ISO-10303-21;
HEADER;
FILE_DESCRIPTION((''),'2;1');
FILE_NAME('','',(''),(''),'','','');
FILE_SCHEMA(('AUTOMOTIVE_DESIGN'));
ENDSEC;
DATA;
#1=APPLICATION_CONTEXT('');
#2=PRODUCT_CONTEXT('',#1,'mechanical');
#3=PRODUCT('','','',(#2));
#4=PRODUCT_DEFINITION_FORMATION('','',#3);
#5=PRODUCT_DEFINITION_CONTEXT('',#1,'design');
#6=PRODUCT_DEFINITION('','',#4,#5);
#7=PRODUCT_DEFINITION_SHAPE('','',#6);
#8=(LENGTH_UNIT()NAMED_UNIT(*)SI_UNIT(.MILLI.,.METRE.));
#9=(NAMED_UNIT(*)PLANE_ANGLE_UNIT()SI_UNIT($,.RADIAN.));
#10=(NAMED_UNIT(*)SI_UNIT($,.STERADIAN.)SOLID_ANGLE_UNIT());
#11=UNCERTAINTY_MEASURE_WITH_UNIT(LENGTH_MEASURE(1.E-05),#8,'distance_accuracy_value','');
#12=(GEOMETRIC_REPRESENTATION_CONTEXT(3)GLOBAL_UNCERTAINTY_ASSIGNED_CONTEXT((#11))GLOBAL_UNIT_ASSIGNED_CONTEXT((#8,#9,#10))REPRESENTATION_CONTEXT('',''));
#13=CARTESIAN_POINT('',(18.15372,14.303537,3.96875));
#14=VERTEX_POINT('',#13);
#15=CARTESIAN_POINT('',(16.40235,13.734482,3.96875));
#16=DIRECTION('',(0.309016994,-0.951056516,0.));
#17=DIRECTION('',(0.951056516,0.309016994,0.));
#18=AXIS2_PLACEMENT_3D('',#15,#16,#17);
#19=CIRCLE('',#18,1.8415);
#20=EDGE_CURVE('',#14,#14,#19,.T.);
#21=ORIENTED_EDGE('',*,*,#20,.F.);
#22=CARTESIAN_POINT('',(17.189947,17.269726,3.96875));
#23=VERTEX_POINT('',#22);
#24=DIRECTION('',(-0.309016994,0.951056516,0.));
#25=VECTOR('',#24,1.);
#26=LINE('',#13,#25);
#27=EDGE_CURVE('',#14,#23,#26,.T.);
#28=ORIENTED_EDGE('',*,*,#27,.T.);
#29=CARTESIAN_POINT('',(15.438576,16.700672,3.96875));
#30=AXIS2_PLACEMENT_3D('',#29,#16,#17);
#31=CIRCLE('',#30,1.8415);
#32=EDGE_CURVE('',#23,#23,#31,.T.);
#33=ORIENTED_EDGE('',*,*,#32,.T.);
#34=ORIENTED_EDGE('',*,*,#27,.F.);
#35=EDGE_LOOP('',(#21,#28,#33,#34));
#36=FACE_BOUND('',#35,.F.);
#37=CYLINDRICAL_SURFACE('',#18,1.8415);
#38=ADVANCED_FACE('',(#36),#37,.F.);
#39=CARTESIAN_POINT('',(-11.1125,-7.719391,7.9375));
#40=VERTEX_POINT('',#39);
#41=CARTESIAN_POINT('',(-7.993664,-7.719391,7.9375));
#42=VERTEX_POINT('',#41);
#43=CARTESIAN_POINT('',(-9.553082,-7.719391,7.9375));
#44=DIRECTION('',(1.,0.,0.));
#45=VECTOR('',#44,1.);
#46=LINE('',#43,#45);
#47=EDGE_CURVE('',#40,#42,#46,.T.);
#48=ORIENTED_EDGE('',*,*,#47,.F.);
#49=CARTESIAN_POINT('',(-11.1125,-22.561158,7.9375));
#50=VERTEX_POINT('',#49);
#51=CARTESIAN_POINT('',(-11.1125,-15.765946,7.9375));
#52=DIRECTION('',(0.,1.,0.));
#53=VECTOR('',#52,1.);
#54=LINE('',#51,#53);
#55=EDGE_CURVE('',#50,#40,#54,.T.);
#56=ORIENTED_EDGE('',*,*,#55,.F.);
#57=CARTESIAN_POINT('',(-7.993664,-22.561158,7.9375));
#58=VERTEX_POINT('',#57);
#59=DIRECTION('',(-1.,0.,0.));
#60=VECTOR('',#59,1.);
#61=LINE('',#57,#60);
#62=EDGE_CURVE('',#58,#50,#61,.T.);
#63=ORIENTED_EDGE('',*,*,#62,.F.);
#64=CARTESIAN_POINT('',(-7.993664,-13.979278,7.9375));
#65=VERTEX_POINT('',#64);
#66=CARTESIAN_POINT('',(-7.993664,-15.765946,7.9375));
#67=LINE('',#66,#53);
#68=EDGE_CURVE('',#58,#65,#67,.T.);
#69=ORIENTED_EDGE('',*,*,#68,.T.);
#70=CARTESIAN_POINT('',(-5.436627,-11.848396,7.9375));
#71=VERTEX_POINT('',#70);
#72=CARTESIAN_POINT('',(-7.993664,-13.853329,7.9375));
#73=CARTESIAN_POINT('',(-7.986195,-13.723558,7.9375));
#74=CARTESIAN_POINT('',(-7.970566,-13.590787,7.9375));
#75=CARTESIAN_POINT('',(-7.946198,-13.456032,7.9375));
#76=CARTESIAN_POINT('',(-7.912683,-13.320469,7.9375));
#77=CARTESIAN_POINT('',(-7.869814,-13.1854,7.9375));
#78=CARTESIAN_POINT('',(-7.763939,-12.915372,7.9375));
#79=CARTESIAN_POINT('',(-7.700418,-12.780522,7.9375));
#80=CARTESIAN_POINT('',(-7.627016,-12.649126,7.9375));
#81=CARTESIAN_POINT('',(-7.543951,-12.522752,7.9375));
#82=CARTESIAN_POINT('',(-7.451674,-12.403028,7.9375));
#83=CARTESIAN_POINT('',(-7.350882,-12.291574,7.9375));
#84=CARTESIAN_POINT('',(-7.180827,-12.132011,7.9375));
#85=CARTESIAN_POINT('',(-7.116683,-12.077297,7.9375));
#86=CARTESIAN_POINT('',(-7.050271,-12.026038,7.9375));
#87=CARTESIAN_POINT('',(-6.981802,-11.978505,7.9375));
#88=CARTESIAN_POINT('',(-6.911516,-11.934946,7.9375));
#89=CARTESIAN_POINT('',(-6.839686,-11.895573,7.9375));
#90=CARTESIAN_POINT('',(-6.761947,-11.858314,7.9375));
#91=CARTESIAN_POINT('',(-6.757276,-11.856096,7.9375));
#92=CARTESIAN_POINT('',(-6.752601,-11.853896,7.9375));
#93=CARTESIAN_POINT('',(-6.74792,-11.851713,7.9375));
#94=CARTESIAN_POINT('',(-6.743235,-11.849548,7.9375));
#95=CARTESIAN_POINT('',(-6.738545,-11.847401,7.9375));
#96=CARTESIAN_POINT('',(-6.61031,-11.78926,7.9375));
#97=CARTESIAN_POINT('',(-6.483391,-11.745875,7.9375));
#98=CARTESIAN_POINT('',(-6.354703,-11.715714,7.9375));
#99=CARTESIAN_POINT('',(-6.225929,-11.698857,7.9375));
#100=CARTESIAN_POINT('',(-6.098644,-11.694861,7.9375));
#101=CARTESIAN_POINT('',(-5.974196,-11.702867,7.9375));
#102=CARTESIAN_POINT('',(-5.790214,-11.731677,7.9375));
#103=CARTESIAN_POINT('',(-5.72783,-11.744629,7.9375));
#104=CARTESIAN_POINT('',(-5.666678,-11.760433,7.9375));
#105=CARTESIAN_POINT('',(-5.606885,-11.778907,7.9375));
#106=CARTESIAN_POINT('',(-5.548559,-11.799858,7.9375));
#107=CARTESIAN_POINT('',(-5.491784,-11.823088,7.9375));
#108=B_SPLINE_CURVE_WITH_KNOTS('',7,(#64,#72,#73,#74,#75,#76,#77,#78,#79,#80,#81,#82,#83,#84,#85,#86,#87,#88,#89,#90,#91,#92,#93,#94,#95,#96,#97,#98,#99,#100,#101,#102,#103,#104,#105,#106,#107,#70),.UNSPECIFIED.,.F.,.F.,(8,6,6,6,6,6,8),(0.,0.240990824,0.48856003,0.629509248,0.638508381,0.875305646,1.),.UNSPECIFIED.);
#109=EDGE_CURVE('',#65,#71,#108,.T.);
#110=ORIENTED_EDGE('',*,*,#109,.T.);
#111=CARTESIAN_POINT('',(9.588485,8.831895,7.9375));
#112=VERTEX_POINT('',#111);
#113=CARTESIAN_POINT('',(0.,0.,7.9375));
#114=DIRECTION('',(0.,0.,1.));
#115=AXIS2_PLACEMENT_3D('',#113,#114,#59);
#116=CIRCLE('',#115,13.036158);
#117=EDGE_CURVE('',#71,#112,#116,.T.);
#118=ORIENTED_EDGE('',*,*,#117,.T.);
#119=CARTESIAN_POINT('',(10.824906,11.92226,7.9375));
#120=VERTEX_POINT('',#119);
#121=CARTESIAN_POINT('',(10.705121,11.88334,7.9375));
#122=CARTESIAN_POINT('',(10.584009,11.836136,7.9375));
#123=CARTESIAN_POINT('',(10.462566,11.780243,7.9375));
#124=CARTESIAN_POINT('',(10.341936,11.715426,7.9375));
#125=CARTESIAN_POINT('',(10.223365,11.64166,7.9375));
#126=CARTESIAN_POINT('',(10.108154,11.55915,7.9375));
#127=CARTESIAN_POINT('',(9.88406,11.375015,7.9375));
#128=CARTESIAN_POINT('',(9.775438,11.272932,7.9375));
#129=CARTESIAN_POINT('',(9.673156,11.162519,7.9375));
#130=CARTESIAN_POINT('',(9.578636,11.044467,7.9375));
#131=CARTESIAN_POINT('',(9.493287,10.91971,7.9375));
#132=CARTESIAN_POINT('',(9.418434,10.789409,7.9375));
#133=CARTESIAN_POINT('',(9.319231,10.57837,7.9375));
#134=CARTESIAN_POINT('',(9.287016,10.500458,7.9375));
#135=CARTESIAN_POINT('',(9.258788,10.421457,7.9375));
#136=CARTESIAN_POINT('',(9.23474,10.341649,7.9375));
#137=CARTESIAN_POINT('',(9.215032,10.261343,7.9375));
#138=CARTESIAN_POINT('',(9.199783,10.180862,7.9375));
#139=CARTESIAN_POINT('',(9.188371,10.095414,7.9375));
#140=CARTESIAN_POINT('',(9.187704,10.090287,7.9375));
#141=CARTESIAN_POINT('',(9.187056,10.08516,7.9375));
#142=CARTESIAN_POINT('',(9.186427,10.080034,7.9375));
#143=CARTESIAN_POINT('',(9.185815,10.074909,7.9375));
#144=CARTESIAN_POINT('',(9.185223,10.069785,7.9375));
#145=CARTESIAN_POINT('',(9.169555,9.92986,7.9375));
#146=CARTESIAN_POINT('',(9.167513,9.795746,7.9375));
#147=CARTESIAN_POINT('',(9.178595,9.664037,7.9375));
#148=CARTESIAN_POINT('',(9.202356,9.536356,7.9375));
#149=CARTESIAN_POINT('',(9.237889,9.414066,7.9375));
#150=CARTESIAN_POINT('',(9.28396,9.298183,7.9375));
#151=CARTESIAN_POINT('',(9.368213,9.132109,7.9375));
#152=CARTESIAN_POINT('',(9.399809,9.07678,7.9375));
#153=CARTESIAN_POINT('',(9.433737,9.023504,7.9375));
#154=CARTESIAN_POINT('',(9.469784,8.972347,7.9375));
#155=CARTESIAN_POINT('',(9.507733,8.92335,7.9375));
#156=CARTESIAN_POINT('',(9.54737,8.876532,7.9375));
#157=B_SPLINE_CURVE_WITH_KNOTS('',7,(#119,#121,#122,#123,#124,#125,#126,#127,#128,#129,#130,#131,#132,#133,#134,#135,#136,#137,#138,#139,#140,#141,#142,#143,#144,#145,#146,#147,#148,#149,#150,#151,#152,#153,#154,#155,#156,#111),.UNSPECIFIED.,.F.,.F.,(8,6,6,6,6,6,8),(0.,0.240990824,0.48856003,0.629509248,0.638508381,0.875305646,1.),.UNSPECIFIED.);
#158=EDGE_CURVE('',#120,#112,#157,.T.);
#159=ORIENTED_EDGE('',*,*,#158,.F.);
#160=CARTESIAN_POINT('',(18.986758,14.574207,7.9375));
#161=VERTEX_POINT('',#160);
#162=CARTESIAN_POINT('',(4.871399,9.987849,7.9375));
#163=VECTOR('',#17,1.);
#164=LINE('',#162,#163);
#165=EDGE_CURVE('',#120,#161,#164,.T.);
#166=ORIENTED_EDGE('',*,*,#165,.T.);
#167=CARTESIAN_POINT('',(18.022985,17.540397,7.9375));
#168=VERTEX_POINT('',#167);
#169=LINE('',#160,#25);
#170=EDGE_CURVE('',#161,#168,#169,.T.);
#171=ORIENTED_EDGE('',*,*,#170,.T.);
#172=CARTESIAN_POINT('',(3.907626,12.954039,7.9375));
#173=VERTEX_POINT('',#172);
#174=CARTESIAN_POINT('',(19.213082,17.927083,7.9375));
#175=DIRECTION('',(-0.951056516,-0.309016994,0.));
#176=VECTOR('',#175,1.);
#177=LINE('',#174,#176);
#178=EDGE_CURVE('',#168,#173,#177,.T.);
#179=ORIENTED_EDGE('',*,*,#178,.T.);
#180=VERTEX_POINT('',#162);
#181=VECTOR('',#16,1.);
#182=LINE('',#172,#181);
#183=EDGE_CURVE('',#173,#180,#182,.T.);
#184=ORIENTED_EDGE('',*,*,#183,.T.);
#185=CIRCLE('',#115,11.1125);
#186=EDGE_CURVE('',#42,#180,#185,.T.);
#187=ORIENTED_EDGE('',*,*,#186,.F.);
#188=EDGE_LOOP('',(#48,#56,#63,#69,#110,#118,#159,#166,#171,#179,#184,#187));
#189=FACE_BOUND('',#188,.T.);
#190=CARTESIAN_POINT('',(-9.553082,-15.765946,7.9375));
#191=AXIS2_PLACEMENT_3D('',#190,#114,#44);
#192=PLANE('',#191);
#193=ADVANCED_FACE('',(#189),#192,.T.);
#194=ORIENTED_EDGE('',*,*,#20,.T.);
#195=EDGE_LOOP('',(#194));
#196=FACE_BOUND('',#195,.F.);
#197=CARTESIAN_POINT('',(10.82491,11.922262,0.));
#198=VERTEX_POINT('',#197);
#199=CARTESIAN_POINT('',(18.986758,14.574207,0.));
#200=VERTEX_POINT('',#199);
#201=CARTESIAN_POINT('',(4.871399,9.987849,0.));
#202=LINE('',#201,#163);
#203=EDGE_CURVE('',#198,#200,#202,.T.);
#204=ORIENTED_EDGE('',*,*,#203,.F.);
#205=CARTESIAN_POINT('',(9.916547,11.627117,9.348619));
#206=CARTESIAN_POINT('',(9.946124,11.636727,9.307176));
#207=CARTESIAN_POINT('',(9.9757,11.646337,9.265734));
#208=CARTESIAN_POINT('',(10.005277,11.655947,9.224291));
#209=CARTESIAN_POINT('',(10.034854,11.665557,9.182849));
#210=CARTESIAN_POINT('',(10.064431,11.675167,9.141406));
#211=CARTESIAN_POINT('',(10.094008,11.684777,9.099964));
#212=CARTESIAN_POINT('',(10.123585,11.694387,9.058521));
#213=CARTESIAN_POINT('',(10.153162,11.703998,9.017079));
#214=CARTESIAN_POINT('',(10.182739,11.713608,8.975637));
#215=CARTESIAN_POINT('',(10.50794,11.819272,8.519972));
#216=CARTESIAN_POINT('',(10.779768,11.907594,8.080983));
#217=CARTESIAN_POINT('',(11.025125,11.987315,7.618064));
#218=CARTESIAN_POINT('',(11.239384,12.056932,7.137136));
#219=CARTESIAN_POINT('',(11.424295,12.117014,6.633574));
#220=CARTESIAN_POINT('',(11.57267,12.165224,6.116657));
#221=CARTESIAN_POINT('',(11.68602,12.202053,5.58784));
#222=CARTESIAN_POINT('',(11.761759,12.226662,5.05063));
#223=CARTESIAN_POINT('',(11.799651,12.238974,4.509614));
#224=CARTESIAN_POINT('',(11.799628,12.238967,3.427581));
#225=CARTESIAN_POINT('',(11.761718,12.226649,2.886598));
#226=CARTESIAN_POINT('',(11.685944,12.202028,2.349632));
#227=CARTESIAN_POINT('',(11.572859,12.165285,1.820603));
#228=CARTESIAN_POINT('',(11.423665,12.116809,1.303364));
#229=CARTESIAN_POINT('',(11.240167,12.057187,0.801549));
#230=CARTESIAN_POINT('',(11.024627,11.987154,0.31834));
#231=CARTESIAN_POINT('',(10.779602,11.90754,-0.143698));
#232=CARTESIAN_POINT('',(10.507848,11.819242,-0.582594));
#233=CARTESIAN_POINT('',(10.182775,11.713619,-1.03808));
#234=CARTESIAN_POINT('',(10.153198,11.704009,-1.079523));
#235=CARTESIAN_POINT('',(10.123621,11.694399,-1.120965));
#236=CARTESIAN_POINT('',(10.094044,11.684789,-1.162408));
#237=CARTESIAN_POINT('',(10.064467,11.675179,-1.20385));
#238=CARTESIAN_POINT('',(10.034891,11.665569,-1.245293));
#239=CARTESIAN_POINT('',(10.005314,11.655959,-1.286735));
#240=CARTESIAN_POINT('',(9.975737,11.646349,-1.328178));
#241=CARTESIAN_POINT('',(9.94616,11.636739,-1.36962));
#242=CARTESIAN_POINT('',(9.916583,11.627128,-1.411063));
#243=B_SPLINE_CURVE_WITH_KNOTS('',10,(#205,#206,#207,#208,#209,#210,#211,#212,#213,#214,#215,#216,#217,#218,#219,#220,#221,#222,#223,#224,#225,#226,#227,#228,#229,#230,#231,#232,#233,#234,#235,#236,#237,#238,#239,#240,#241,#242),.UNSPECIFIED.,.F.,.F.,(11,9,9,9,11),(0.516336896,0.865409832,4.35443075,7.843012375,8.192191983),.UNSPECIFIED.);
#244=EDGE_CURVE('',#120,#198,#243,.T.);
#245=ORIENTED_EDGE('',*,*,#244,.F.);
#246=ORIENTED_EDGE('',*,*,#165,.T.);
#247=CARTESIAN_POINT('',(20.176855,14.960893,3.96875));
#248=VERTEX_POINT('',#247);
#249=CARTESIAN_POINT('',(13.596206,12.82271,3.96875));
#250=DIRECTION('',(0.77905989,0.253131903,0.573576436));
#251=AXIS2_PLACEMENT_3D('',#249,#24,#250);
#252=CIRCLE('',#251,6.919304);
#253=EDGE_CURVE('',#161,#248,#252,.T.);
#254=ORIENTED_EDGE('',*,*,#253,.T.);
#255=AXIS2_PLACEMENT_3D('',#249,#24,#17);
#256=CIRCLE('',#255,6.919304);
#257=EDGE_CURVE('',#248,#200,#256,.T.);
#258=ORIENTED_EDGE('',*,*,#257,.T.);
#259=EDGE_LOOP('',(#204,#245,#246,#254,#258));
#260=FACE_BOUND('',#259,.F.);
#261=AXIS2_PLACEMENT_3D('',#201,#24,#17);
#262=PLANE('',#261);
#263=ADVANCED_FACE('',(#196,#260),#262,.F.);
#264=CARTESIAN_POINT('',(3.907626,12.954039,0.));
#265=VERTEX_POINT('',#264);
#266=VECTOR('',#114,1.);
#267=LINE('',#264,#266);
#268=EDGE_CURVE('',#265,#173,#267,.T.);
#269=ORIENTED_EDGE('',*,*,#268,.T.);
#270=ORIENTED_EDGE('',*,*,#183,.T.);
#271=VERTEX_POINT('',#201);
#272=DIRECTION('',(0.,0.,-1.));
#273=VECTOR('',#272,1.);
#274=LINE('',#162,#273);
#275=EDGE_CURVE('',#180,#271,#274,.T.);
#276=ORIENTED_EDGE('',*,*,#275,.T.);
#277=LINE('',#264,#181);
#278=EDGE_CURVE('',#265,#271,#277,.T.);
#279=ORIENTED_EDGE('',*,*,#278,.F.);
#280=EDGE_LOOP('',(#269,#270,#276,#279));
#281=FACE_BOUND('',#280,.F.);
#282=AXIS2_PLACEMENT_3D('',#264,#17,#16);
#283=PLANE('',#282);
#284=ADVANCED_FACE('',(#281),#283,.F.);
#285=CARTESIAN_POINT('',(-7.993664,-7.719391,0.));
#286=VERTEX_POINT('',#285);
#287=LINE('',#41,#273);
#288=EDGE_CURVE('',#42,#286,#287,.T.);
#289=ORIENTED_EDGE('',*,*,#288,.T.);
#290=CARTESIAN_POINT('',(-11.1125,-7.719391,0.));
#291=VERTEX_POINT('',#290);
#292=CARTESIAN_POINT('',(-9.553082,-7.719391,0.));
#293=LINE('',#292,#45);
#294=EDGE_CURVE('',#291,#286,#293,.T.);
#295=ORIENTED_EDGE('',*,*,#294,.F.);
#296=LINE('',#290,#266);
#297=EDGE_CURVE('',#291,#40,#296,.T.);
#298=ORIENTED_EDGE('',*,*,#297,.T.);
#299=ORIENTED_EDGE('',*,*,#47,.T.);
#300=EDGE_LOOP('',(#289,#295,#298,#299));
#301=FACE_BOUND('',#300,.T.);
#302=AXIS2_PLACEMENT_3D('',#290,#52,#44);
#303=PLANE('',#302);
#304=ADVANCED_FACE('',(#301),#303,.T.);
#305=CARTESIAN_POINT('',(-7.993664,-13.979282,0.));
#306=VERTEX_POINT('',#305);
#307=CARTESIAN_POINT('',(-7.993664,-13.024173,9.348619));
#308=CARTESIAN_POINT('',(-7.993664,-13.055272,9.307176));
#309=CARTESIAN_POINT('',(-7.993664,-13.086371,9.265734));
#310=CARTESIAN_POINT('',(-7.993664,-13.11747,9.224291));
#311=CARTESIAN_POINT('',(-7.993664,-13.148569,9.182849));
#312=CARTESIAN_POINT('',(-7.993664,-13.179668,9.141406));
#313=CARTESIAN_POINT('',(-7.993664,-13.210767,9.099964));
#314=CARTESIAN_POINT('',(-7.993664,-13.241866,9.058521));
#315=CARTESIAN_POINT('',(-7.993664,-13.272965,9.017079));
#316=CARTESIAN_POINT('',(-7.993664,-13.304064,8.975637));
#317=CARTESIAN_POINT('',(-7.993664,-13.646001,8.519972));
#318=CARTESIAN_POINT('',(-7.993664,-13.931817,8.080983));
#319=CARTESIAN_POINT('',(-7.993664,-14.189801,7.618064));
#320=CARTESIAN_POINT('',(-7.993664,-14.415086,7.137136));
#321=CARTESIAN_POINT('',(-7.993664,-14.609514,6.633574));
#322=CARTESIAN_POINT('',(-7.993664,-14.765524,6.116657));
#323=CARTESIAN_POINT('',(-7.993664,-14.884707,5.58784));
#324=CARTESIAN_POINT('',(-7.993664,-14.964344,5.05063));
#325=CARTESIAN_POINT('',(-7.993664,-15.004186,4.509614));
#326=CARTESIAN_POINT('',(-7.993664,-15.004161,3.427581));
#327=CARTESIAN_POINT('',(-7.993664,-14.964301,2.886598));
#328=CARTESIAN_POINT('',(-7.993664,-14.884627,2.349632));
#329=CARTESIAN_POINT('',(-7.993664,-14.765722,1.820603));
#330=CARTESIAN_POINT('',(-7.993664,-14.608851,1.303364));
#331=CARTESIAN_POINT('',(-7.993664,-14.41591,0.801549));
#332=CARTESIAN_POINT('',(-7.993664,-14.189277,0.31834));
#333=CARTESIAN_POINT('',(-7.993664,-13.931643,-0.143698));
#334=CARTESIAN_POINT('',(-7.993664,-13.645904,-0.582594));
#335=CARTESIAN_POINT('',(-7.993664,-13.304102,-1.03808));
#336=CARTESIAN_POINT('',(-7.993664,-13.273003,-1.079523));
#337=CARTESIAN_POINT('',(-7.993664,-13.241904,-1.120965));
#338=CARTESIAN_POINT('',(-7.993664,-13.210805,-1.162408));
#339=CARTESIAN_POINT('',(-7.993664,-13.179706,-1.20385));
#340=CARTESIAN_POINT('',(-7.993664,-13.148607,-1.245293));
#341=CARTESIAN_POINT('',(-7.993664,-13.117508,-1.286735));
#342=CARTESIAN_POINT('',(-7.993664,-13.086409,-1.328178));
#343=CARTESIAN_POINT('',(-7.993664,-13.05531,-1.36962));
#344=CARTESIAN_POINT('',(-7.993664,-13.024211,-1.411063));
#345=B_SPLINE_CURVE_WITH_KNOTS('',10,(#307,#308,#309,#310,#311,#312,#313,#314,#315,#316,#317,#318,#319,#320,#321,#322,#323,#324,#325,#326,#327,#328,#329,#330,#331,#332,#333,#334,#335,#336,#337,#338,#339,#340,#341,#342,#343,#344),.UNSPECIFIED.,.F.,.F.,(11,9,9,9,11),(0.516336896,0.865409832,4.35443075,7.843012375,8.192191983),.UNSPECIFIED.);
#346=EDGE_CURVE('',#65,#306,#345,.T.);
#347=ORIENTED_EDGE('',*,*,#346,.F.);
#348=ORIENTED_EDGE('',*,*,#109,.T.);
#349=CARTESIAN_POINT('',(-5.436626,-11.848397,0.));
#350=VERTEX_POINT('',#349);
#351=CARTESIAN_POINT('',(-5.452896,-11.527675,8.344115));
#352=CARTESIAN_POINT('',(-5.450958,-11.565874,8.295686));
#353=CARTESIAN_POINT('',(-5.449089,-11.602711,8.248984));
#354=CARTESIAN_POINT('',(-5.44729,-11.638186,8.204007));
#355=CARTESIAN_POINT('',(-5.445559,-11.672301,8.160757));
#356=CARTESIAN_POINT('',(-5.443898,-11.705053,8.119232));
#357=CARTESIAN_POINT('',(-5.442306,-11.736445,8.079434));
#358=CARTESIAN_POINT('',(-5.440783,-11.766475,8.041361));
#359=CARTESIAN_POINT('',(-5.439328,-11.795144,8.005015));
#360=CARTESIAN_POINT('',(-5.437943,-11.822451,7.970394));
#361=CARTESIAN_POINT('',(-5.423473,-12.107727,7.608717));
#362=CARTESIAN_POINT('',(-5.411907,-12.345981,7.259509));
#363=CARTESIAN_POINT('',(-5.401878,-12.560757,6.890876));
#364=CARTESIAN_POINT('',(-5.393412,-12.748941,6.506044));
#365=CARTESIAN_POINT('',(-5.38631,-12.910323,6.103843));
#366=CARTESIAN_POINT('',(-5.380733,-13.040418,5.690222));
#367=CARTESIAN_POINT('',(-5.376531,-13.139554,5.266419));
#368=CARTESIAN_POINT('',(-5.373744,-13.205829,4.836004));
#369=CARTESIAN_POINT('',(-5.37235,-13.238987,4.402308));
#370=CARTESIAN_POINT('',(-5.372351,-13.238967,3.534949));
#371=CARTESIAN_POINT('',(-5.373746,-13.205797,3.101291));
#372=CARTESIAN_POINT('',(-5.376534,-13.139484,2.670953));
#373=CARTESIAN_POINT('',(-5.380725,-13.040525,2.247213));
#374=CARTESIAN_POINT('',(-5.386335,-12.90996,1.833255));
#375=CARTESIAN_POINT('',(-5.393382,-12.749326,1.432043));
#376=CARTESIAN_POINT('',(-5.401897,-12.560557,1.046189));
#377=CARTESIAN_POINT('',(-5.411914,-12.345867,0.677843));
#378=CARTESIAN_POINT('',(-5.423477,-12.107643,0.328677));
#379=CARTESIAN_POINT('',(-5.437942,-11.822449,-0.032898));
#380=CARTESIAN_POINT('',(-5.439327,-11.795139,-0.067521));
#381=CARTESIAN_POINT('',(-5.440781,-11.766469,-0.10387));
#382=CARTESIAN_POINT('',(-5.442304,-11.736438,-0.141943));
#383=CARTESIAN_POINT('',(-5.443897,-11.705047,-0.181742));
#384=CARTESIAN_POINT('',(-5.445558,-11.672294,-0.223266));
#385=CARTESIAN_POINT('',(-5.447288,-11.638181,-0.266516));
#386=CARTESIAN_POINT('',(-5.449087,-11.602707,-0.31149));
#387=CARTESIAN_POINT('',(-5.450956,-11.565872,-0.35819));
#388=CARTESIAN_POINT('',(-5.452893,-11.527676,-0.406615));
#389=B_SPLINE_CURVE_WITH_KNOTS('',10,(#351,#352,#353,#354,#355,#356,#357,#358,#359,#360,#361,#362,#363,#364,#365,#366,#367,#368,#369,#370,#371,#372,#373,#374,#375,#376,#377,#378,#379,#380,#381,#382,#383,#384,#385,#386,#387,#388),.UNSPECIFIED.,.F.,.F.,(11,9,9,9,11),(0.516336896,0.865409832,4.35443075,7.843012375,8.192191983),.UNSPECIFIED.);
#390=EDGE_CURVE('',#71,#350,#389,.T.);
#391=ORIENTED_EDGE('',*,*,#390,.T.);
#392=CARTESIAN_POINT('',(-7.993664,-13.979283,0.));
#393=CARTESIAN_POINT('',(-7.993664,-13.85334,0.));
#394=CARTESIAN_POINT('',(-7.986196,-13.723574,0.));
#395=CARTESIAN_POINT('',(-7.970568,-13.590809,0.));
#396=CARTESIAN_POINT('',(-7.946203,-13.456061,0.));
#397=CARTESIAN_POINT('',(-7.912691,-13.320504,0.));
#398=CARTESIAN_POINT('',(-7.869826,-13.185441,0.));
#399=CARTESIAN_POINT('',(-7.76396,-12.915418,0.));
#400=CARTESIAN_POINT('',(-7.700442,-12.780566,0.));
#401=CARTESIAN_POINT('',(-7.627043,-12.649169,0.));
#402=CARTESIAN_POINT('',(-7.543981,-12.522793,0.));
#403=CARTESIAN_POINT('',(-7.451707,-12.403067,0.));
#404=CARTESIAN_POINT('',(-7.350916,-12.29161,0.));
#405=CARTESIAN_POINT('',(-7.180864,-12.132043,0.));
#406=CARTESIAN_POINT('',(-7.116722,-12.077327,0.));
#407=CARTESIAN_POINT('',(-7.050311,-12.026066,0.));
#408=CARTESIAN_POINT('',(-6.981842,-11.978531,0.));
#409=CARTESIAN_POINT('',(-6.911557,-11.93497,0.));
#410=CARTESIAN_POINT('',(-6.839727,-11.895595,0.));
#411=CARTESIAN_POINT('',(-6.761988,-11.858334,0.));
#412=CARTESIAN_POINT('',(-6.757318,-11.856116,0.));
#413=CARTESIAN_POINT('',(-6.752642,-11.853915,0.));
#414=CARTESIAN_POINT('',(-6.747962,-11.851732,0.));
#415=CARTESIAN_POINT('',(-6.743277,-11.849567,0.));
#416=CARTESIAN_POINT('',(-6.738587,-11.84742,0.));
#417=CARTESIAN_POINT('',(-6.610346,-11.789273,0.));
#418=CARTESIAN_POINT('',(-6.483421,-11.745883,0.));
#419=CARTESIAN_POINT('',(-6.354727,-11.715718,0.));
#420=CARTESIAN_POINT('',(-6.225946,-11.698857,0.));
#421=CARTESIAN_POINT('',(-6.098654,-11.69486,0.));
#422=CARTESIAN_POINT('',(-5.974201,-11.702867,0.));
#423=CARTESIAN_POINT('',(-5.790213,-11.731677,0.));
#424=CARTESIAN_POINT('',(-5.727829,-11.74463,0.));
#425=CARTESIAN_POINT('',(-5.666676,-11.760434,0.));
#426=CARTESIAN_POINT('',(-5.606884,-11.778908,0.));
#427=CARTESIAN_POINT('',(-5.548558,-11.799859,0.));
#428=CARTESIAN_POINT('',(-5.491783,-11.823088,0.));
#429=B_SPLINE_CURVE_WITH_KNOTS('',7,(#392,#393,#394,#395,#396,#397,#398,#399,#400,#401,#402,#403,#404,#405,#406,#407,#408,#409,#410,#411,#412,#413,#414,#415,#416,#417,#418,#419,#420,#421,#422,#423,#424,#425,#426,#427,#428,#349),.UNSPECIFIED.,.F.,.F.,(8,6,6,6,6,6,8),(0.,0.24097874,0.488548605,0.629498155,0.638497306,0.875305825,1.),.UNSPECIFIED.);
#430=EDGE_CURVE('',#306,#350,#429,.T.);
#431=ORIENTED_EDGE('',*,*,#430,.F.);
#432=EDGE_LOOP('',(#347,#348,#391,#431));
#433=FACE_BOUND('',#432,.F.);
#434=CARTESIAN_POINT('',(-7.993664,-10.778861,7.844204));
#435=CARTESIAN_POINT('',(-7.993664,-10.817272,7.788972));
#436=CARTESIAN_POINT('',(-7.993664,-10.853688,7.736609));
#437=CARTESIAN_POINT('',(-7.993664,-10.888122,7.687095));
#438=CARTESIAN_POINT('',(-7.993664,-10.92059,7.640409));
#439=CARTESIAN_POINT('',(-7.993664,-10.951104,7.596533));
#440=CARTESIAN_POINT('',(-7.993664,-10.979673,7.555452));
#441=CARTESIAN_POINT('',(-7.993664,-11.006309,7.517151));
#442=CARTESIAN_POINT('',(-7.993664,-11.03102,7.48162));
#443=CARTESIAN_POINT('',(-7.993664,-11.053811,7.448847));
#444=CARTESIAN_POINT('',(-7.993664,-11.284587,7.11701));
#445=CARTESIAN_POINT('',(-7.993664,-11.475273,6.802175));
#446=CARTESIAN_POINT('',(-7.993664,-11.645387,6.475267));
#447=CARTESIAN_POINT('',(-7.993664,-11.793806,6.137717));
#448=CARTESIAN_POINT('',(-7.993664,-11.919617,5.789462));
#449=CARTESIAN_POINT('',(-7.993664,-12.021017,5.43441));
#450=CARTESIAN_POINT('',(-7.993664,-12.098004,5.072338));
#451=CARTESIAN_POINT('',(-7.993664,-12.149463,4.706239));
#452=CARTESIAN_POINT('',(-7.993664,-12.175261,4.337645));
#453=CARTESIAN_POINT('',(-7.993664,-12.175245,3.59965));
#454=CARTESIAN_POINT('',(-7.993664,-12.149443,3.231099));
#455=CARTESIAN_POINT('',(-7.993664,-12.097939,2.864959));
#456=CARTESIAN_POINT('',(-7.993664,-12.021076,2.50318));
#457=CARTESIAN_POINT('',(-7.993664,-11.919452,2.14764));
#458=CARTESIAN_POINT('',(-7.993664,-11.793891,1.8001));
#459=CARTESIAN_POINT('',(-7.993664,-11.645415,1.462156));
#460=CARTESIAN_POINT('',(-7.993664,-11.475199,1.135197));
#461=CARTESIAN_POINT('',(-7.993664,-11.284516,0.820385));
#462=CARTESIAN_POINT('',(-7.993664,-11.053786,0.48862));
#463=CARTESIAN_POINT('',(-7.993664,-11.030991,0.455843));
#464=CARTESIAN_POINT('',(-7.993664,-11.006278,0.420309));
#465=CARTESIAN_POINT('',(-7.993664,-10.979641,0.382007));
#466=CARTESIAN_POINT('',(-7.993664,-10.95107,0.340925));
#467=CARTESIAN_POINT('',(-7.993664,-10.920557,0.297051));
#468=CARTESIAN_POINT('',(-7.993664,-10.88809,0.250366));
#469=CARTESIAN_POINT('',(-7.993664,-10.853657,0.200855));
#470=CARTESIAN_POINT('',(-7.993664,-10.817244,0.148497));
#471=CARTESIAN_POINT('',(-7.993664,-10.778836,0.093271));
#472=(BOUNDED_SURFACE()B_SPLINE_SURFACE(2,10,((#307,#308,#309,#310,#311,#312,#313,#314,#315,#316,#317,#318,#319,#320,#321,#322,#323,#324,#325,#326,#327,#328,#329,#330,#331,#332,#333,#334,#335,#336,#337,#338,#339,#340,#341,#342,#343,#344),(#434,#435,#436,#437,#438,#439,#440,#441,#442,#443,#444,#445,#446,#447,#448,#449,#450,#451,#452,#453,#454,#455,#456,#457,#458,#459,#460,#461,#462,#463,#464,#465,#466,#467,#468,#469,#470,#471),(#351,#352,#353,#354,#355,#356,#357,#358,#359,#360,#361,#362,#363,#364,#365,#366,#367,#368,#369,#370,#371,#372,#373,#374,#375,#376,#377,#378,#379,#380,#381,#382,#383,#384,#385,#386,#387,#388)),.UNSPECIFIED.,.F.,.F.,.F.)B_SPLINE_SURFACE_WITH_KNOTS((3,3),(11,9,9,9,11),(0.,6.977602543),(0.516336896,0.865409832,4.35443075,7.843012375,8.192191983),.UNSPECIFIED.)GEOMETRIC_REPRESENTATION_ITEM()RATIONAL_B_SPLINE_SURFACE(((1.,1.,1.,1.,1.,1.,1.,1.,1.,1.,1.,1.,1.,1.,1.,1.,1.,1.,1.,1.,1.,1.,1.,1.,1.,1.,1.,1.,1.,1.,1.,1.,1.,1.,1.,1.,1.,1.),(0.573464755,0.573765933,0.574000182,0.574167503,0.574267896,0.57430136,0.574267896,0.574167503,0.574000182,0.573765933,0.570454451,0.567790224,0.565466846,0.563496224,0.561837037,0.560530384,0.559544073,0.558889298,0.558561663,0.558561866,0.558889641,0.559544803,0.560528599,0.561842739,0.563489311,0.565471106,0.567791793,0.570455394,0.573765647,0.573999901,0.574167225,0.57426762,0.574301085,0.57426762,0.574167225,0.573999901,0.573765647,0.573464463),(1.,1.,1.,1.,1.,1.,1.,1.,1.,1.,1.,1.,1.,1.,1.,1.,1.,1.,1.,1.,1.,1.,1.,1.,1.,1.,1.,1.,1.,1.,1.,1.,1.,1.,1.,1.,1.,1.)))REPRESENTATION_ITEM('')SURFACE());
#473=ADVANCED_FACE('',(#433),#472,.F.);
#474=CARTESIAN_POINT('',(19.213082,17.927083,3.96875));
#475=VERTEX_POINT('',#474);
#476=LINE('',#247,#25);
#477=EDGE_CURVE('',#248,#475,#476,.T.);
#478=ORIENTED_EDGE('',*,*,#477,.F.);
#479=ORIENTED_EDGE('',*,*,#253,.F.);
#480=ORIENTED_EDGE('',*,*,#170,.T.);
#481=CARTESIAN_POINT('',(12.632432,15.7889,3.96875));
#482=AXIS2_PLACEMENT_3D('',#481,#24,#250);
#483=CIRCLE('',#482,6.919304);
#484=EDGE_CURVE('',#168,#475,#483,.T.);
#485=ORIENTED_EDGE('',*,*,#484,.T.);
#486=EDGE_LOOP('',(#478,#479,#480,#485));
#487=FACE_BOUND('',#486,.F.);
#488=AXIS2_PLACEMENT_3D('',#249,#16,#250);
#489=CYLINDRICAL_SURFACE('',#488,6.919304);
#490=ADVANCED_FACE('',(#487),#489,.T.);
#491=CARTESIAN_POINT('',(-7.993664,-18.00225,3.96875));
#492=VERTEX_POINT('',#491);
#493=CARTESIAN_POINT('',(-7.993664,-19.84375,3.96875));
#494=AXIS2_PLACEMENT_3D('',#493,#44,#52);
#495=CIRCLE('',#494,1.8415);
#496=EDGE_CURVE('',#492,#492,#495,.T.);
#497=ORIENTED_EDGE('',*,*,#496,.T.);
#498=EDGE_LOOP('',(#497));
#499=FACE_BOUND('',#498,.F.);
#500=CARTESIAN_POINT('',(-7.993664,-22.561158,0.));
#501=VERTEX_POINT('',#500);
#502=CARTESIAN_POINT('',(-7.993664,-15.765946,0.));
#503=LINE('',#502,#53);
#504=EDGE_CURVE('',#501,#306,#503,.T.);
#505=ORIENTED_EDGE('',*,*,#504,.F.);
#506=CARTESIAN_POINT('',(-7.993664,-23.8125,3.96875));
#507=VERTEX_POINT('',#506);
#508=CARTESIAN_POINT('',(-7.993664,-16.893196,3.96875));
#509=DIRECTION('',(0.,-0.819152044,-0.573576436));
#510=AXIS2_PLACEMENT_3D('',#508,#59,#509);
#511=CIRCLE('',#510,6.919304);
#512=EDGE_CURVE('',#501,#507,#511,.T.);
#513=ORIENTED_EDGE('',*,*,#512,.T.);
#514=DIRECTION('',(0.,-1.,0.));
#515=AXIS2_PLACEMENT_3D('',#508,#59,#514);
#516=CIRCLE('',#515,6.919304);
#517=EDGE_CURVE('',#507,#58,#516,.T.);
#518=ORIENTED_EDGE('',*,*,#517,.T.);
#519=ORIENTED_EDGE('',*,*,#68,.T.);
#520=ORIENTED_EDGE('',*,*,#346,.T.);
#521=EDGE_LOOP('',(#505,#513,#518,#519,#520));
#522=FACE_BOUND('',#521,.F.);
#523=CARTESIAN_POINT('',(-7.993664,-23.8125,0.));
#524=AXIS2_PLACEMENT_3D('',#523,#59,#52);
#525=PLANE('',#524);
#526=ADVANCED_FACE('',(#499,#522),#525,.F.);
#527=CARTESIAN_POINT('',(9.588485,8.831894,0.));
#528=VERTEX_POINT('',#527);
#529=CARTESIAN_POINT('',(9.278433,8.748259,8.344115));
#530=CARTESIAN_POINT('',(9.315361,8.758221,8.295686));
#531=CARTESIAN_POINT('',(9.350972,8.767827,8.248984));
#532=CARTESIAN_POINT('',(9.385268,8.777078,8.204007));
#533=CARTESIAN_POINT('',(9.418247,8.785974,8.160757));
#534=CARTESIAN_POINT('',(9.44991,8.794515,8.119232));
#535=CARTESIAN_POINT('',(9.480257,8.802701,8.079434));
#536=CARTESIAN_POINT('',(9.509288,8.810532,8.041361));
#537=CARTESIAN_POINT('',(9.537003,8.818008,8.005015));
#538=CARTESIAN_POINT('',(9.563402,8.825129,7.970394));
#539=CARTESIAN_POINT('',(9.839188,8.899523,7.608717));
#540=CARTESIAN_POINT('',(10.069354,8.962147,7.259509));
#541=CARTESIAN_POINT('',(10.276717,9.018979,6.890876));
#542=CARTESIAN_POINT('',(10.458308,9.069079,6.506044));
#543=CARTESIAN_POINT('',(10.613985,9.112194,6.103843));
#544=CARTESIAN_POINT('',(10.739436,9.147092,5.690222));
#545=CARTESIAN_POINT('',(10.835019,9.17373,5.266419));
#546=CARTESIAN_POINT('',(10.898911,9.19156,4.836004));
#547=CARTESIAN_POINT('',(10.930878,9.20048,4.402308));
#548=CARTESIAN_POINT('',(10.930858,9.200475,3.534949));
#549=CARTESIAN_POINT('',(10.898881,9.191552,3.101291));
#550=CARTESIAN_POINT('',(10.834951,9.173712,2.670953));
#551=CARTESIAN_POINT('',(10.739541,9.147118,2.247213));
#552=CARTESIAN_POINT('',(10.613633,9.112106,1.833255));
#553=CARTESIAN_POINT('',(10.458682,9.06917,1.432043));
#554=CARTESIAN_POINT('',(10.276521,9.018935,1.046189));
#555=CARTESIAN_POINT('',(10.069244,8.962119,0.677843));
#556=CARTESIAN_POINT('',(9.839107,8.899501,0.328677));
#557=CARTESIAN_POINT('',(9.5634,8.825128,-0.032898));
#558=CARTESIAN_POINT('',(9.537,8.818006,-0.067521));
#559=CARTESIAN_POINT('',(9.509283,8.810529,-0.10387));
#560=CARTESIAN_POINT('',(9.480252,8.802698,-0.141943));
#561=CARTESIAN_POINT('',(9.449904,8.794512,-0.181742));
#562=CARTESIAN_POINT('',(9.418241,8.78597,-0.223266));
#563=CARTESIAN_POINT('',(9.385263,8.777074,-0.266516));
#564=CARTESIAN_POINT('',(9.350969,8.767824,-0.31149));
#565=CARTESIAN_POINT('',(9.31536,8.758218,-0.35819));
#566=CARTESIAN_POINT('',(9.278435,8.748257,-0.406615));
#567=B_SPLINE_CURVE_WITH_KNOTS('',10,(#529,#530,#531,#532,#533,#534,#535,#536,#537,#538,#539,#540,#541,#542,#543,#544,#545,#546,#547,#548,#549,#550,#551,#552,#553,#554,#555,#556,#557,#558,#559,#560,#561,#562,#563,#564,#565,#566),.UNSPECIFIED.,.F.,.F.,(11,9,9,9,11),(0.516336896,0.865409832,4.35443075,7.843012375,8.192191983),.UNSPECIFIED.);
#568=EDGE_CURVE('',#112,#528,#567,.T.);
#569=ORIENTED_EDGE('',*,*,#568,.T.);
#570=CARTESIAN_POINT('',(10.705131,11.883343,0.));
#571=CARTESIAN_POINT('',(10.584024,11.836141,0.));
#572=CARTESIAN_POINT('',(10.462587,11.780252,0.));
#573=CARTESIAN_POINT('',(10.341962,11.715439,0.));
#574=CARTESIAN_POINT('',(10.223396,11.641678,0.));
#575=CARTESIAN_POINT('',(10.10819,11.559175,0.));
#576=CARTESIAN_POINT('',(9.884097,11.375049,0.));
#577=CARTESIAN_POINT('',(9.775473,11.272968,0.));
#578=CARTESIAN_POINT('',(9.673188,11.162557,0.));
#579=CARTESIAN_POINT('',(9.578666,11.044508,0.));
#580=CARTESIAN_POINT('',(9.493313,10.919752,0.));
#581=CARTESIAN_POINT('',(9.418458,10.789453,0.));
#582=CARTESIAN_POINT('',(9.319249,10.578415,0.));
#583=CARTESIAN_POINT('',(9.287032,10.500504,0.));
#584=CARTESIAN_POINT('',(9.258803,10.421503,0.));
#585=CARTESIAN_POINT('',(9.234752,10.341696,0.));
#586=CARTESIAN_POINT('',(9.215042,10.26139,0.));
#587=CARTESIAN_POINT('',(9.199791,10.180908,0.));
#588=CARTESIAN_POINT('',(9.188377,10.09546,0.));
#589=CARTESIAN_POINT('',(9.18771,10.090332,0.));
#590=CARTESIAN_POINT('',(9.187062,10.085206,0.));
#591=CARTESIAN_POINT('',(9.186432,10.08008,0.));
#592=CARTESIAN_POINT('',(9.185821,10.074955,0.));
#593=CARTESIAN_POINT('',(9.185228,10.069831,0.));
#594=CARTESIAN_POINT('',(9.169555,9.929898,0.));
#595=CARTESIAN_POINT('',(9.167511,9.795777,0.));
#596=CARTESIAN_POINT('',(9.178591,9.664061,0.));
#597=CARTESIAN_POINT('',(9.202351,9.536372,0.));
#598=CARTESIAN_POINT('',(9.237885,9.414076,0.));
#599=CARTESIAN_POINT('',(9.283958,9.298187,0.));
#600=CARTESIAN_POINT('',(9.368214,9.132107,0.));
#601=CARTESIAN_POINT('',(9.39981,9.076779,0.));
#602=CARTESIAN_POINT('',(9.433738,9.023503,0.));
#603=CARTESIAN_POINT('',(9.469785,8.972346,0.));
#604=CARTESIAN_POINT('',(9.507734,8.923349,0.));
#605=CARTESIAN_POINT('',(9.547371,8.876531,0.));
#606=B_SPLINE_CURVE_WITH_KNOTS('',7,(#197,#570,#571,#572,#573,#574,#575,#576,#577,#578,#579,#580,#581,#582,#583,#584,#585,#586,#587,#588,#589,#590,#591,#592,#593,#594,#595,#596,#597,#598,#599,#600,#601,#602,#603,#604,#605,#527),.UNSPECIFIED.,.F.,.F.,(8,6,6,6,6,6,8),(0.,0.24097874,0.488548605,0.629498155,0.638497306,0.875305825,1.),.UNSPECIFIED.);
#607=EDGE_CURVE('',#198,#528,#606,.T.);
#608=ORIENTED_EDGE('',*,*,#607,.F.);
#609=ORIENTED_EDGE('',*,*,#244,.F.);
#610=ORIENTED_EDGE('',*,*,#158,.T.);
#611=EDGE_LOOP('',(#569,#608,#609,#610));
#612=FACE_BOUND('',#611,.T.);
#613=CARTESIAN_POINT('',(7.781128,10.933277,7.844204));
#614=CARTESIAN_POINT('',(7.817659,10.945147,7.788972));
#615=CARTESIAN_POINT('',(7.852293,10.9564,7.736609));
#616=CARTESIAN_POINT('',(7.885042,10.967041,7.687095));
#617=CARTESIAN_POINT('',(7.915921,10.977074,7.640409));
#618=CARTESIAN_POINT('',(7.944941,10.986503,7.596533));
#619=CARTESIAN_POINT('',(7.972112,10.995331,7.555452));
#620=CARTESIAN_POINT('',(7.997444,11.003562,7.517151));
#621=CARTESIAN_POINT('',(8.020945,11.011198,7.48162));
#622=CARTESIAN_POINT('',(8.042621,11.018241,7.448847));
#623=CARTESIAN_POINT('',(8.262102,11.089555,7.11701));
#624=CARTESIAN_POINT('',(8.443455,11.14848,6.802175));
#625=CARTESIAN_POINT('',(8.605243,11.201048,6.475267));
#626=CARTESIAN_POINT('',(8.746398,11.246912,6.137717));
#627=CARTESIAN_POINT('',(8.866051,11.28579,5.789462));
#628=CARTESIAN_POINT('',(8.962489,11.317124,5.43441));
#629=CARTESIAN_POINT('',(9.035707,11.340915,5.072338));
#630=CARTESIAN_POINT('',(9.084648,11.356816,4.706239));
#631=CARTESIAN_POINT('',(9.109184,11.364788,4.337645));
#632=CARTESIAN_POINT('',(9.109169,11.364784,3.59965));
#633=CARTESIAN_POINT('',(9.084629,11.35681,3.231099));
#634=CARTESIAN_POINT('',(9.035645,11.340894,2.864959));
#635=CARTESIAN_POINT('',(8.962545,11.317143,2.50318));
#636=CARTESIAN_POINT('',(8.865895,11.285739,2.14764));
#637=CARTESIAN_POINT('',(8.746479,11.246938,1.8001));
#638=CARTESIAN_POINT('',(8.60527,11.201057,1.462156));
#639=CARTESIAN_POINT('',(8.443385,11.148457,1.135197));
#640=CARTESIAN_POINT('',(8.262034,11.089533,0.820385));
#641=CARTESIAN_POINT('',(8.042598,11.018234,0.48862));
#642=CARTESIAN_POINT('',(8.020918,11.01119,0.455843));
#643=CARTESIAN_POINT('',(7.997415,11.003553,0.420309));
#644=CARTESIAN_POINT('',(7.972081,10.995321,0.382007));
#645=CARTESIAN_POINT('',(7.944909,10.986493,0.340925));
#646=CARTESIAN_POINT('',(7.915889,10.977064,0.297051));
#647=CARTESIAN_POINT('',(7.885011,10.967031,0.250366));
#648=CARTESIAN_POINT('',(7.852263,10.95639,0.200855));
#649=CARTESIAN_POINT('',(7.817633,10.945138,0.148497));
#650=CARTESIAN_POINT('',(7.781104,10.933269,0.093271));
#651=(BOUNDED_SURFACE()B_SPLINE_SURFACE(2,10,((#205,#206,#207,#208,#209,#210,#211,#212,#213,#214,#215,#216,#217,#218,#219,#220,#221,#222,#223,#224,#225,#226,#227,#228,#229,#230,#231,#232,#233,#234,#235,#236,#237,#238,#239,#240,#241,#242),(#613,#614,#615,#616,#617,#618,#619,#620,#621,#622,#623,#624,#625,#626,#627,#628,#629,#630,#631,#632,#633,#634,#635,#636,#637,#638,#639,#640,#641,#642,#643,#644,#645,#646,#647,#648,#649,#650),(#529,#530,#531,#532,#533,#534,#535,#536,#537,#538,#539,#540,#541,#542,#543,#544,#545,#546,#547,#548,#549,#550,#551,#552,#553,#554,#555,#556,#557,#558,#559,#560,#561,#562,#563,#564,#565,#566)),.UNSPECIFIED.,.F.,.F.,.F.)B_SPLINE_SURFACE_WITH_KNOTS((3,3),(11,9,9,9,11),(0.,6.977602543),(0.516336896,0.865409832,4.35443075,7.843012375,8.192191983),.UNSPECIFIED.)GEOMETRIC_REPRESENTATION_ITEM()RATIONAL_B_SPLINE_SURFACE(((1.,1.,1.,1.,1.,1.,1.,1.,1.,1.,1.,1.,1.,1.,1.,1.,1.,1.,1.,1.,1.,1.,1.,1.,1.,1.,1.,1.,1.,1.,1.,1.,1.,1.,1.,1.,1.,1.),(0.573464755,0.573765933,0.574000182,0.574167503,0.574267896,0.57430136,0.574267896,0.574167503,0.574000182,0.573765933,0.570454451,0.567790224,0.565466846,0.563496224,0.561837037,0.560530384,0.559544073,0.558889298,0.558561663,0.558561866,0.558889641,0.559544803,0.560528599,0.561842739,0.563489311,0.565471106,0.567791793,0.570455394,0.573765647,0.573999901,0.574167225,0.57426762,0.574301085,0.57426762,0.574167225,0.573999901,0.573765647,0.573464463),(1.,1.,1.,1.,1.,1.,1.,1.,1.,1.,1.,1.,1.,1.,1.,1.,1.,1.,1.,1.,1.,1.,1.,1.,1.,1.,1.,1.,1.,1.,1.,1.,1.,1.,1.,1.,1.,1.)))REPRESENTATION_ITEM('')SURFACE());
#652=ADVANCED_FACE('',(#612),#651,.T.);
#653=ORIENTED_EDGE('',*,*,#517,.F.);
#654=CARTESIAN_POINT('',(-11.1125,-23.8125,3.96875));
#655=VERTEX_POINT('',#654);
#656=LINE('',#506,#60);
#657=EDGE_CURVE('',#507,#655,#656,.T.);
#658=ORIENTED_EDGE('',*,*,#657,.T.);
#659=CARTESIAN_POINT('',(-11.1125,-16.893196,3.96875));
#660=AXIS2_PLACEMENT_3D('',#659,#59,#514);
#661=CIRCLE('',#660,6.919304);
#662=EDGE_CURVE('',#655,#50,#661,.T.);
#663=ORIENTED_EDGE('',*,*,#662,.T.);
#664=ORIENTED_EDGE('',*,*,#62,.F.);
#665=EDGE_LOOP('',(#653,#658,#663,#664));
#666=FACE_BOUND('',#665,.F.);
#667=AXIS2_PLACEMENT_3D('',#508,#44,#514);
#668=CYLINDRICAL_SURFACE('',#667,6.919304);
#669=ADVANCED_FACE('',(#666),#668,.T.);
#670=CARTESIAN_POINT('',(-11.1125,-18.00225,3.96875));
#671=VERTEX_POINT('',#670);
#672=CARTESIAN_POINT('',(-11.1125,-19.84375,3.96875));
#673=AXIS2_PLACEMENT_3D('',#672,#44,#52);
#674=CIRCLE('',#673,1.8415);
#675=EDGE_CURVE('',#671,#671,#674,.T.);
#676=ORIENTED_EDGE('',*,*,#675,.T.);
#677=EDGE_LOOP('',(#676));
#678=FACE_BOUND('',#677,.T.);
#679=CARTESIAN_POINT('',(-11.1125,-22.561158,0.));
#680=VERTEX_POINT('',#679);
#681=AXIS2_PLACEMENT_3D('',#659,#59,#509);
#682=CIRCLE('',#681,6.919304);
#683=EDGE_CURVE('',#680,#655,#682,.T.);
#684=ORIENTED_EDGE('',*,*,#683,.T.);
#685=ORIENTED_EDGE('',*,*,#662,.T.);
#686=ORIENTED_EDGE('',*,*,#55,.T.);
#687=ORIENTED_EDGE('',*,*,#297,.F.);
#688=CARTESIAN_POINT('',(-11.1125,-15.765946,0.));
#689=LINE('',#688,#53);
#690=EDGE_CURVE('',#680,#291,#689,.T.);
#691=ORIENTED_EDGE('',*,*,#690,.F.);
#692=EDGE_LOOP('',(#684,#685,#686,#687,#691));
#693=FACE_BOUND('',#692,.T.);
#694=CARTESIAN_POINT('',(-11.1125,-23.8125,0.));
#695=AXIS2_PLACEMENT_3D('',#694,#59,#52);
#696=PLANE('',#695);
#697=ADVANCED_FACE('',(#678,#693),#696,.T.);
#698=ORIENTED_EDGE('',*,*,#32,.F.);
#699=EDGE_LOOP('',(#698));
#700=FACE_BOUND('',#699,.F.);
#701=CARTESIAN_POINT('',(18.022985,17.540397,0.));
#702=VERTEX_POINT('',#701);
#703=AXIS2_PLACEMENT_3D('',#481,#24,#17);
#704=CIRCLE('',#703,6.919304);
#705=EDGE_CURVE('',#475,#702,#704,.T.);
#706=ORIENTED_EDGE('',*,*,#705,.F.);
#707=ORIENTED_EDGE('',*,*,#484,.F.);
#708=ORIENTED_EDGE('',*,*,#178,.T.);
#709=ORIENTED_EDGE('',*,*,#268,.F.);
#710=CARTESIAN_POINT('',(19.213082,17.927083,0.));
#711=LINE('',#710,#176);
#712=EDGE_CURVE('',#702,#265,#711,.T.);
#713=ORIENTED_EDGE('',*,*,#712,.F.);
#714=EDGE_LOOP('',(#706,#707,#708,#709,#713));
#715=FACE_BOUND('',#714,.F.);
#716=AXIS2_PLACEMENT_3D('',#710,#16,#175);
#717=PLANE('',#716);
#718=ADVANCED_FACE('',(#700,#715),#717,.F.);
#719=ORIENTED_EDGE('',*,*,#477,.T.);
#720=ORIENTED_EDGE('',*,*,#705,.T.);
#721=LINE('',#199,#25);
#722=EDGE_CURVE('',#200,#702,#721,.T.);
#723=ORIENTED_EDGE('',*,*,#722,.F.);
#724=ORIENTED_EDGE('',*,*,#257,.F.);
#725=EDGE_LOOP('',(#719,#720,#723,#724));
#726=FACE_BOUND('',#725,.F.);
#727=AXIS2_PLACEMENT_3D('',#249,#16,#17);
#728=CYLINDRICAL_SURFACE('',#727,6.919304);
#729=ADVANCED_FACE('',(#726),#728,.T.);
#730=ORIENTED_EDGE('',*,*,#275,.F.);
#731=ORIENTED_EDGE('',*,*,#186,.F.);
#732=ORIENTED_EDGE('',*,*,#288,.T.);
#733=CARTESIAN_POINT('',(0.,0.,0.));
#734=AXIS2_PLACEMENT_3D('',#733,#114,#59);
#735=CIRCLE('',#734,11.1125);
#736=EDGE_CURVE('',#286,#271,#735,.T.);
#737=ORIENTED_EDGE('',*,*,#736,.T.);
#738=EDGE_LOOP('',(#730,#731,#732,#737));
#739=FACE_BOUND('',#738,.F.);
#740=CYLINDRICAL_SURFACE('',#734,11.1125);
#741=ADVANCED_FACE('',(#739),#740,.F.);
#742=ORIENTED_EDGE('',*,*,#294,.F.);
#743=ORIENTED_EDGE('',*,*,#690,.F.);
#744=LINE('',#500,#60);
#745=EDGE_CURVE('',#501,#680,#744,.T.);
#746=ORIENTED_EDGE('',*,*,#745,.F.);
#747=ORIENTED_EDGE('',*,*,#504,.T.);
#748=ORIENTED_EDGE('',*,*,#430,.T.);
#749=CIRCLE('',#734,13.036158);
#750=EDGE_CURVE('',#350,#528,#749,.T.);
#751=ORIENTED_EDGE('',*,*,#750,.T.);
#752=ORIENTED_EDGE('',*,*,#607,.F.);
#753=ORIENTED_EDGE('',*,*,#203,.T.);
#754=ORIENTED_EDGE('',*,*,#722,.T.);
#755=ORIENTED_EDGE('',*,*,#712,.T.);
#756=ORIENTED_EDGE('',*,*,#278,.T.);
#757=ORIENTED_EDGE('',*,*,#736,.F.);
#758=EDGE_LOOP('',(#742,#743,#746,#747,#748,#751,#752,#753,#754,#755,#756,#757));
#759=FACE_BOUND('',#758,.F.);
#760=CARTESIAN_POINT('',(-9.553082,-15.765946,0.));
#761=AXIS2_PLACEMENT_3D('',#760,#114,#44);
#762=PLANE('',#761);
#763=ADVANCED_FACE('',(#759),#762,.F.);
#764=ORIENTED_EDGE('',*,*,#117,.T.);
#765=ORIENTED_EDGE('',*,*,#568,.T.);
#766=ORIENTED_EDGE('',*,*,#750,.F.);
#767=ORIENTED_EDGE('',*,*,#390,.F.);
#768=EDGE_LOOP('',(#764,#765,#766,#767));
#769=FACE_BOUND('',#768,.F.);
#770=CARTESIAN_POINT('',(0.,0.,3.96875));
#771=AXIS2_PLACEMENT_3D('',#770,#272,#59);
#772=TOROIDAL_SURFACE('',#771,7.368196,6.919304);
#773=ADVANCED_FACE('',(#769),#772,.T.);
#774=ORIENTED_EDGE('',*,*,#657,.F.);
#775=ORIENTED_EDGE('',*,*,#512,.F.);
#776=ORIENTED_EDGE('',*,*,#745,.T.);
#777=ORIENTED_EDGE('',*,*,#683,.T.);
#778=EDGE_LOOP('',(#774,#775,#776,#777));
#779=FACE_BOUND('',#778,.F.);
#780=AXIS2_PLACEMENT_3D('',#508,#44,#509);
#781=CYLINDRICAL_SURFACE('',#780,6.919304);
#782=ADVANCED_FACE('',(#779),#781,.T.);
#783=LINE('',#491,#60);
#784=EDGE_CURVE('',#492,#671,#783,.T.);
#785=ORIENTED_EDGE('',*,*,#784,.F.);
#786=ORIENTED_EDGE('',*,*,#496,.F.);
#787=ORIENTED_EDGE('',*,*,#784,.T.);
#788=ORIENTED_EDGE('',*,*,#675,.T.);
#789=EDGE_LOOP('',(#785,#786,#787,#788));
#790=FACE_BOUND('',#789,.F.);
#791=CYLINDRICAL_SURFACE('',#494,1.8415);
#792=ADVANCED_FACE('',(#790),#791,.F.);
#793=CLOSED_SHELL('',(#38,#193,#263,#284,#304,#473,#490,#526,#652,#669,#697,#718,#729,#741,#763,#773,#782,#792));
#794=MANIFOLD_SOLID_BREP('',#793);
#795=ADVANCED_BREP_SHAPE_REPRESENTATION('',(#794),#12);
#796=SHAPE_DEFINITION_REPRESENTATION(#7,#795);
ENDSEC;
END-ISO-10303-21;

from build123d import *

# Parameters (mm, degrees)
F4_DEPTH  = 7.9385001
F5_W      = 3.1188364687
F5_H      = 16.0931088583
F6_DEPTH  = 7.9375
F7_R      = 1.8415
F8_DEPTH  = 3.1188364687
F9_R      = 1.8415
F10_DEPTH = 3.1188364687
F11_R     = 1.905


with BuildPart() as f2:
    # F1 (on Front) → F2 (revolve)
    with BuildSketch(Plane.XZ):
        with BuildLine():
            ThreePointArc((-13.0361579316, 7.9375), (-14.2875, 3.96875), (-13.0361579316, 0))
            Line((-13.0361579316, 0), (-11.1125, 0))
            Line((-11.1125, 0), (-11.1125, 7.9375))
            Line((-11.1125, 7.9375), (-13.0361579316, 7.9375))
        make_face()
    revolve(axis=Axis((0, 0, 3.96875), (0, 0, 1)))

    # F3 (on face) → F4 (cut, through all)
    with BuildSketch(Plane.XY.offset(7.9375)):
        with BuildLine():
            Line((-10.2775673973, -9.9249314679), (-9.3774272437, -9.0556762258))
            ThreePointArc((-9.3774272437, -9.0556762258), (-10.546473308, 7.6624613788), (5.7146755022, 11.7168211356))
            Line((5.7146755022, 11.7168211356), (6.2632277597, 12.8415199365))
            ThreePointArc((6.2632277597, 12.8415199365), (-11.5588303071, 8.3979817921), (-10.2775673973, -9.9249314679))
        make_face()
        with BuildLine():
            Line((-9.3774272437, -9.0556762258), (-7.9936635313, -7.7193911417))
            ThreePointArc((-7.9936635313, -7.7193911417), (-8.99020135, 6.5317636161), (4.8713993687, 9.9878488395))
            Line((4.8713993687, 9.9878488395), (5.7146755022, 11.7168211356))
            ThreePointArc((5.7146755022, 11.7168211356), (-10.546473308, 7.6624613788), (-9.3774272437, -9.0556762258))
        make_face()
    extrude(amount=-F4_DEPTH, mode=Mode.SUBTRACT)

    # F5 (on Top) → F6 (join, through all)
    with BuildSketch(Plane.XY):
        with Locations((-9.5530817656, -15.7659455709)):
            Rectangle(F5_W, F5_H)
        Polygon((20.1768554158, 14.960892969), (19.2130819443, 17.9270827159), (3.9076258972, 12.9540385864), (4.8713993687, 9.9878488395), align=None)
    extrude(amount=F6_DEPTH)

    # F7 (on face) → F8 (cut, through all)
    with BuildSketch(Plane.YZ.offset(-7.9936635313)):
        with BuildLine():
            ThreePointArc((-23.8125, 3.96875), (-23.4922534904, 6.0494249827), (-22.5611579316, 7.9375))
            Line((-22.5611579316, 7.9375), (-23.8125, 7.9375))
            Line((-23.8125, 7.9375), (-23.8125, 3.96875))
        make_face()
        with BuildLine():
            Line((-23.8125, 0), (-22.5611579316, 0))
            ThreePointArc((-22.5611579316, 0), (-23.4922534904, 1.8880750173), (-23.8125, 3.96875))
            Line((-23.8125, 3.96875), (-23.8125, 0))
        make_face()
        with Locations((-19.84375, 3.96875)):
            Circle(F7_R)
    extrude(amount=-F8_DEPTH, mode=Mode.SUBTRACT)

    # F9 (on face) → F10 (cut, through all)
    with BuildSketch(Plane(origin=(-2.4701778785, 7.6024257905, 0), x_dir=(0.9510565163, 0.3090169944, 0), z_dir=(0.3090169944, -0.9510565163, 0))):
        with Locations((19.84375, 3.96875)):
            Circle(F9_R)
        with BuildLine():
            ThreePointArc((22.5611579316, 7.9375), (23.4922534904, 6.0494249827), (23.8125, 3.96875))
            Line((23.8125, 3.96875), (23.8125, 7.9375))
            Line((23.8125, 7.9375), (22.5611579316, 7.9375))
        make_face()
        with BuildLine():
            ThreePointArc((23.8125, 3.96875), (23.4922534904, 1.8880750173), (22.5611579316, 0))
            Line((22.5611579316, 0), (23.8125, 0))
            Line((23.8125, 0), (23.8125, 3.96875))
        make_face()
    extrude(amount=-F10_DEPTH, mode=Mode.SUBTRACT)

    # F11
    f11_edges = [f2.edges().sort_by_distance(p)[0] for p in [
        (-7.993664, -11.842044, 3.96875),
        (8.792275, 11.261819, 3.96875),
    ]]
    fillet(f11_edges, radius=F11_R)


solid = f2.part
